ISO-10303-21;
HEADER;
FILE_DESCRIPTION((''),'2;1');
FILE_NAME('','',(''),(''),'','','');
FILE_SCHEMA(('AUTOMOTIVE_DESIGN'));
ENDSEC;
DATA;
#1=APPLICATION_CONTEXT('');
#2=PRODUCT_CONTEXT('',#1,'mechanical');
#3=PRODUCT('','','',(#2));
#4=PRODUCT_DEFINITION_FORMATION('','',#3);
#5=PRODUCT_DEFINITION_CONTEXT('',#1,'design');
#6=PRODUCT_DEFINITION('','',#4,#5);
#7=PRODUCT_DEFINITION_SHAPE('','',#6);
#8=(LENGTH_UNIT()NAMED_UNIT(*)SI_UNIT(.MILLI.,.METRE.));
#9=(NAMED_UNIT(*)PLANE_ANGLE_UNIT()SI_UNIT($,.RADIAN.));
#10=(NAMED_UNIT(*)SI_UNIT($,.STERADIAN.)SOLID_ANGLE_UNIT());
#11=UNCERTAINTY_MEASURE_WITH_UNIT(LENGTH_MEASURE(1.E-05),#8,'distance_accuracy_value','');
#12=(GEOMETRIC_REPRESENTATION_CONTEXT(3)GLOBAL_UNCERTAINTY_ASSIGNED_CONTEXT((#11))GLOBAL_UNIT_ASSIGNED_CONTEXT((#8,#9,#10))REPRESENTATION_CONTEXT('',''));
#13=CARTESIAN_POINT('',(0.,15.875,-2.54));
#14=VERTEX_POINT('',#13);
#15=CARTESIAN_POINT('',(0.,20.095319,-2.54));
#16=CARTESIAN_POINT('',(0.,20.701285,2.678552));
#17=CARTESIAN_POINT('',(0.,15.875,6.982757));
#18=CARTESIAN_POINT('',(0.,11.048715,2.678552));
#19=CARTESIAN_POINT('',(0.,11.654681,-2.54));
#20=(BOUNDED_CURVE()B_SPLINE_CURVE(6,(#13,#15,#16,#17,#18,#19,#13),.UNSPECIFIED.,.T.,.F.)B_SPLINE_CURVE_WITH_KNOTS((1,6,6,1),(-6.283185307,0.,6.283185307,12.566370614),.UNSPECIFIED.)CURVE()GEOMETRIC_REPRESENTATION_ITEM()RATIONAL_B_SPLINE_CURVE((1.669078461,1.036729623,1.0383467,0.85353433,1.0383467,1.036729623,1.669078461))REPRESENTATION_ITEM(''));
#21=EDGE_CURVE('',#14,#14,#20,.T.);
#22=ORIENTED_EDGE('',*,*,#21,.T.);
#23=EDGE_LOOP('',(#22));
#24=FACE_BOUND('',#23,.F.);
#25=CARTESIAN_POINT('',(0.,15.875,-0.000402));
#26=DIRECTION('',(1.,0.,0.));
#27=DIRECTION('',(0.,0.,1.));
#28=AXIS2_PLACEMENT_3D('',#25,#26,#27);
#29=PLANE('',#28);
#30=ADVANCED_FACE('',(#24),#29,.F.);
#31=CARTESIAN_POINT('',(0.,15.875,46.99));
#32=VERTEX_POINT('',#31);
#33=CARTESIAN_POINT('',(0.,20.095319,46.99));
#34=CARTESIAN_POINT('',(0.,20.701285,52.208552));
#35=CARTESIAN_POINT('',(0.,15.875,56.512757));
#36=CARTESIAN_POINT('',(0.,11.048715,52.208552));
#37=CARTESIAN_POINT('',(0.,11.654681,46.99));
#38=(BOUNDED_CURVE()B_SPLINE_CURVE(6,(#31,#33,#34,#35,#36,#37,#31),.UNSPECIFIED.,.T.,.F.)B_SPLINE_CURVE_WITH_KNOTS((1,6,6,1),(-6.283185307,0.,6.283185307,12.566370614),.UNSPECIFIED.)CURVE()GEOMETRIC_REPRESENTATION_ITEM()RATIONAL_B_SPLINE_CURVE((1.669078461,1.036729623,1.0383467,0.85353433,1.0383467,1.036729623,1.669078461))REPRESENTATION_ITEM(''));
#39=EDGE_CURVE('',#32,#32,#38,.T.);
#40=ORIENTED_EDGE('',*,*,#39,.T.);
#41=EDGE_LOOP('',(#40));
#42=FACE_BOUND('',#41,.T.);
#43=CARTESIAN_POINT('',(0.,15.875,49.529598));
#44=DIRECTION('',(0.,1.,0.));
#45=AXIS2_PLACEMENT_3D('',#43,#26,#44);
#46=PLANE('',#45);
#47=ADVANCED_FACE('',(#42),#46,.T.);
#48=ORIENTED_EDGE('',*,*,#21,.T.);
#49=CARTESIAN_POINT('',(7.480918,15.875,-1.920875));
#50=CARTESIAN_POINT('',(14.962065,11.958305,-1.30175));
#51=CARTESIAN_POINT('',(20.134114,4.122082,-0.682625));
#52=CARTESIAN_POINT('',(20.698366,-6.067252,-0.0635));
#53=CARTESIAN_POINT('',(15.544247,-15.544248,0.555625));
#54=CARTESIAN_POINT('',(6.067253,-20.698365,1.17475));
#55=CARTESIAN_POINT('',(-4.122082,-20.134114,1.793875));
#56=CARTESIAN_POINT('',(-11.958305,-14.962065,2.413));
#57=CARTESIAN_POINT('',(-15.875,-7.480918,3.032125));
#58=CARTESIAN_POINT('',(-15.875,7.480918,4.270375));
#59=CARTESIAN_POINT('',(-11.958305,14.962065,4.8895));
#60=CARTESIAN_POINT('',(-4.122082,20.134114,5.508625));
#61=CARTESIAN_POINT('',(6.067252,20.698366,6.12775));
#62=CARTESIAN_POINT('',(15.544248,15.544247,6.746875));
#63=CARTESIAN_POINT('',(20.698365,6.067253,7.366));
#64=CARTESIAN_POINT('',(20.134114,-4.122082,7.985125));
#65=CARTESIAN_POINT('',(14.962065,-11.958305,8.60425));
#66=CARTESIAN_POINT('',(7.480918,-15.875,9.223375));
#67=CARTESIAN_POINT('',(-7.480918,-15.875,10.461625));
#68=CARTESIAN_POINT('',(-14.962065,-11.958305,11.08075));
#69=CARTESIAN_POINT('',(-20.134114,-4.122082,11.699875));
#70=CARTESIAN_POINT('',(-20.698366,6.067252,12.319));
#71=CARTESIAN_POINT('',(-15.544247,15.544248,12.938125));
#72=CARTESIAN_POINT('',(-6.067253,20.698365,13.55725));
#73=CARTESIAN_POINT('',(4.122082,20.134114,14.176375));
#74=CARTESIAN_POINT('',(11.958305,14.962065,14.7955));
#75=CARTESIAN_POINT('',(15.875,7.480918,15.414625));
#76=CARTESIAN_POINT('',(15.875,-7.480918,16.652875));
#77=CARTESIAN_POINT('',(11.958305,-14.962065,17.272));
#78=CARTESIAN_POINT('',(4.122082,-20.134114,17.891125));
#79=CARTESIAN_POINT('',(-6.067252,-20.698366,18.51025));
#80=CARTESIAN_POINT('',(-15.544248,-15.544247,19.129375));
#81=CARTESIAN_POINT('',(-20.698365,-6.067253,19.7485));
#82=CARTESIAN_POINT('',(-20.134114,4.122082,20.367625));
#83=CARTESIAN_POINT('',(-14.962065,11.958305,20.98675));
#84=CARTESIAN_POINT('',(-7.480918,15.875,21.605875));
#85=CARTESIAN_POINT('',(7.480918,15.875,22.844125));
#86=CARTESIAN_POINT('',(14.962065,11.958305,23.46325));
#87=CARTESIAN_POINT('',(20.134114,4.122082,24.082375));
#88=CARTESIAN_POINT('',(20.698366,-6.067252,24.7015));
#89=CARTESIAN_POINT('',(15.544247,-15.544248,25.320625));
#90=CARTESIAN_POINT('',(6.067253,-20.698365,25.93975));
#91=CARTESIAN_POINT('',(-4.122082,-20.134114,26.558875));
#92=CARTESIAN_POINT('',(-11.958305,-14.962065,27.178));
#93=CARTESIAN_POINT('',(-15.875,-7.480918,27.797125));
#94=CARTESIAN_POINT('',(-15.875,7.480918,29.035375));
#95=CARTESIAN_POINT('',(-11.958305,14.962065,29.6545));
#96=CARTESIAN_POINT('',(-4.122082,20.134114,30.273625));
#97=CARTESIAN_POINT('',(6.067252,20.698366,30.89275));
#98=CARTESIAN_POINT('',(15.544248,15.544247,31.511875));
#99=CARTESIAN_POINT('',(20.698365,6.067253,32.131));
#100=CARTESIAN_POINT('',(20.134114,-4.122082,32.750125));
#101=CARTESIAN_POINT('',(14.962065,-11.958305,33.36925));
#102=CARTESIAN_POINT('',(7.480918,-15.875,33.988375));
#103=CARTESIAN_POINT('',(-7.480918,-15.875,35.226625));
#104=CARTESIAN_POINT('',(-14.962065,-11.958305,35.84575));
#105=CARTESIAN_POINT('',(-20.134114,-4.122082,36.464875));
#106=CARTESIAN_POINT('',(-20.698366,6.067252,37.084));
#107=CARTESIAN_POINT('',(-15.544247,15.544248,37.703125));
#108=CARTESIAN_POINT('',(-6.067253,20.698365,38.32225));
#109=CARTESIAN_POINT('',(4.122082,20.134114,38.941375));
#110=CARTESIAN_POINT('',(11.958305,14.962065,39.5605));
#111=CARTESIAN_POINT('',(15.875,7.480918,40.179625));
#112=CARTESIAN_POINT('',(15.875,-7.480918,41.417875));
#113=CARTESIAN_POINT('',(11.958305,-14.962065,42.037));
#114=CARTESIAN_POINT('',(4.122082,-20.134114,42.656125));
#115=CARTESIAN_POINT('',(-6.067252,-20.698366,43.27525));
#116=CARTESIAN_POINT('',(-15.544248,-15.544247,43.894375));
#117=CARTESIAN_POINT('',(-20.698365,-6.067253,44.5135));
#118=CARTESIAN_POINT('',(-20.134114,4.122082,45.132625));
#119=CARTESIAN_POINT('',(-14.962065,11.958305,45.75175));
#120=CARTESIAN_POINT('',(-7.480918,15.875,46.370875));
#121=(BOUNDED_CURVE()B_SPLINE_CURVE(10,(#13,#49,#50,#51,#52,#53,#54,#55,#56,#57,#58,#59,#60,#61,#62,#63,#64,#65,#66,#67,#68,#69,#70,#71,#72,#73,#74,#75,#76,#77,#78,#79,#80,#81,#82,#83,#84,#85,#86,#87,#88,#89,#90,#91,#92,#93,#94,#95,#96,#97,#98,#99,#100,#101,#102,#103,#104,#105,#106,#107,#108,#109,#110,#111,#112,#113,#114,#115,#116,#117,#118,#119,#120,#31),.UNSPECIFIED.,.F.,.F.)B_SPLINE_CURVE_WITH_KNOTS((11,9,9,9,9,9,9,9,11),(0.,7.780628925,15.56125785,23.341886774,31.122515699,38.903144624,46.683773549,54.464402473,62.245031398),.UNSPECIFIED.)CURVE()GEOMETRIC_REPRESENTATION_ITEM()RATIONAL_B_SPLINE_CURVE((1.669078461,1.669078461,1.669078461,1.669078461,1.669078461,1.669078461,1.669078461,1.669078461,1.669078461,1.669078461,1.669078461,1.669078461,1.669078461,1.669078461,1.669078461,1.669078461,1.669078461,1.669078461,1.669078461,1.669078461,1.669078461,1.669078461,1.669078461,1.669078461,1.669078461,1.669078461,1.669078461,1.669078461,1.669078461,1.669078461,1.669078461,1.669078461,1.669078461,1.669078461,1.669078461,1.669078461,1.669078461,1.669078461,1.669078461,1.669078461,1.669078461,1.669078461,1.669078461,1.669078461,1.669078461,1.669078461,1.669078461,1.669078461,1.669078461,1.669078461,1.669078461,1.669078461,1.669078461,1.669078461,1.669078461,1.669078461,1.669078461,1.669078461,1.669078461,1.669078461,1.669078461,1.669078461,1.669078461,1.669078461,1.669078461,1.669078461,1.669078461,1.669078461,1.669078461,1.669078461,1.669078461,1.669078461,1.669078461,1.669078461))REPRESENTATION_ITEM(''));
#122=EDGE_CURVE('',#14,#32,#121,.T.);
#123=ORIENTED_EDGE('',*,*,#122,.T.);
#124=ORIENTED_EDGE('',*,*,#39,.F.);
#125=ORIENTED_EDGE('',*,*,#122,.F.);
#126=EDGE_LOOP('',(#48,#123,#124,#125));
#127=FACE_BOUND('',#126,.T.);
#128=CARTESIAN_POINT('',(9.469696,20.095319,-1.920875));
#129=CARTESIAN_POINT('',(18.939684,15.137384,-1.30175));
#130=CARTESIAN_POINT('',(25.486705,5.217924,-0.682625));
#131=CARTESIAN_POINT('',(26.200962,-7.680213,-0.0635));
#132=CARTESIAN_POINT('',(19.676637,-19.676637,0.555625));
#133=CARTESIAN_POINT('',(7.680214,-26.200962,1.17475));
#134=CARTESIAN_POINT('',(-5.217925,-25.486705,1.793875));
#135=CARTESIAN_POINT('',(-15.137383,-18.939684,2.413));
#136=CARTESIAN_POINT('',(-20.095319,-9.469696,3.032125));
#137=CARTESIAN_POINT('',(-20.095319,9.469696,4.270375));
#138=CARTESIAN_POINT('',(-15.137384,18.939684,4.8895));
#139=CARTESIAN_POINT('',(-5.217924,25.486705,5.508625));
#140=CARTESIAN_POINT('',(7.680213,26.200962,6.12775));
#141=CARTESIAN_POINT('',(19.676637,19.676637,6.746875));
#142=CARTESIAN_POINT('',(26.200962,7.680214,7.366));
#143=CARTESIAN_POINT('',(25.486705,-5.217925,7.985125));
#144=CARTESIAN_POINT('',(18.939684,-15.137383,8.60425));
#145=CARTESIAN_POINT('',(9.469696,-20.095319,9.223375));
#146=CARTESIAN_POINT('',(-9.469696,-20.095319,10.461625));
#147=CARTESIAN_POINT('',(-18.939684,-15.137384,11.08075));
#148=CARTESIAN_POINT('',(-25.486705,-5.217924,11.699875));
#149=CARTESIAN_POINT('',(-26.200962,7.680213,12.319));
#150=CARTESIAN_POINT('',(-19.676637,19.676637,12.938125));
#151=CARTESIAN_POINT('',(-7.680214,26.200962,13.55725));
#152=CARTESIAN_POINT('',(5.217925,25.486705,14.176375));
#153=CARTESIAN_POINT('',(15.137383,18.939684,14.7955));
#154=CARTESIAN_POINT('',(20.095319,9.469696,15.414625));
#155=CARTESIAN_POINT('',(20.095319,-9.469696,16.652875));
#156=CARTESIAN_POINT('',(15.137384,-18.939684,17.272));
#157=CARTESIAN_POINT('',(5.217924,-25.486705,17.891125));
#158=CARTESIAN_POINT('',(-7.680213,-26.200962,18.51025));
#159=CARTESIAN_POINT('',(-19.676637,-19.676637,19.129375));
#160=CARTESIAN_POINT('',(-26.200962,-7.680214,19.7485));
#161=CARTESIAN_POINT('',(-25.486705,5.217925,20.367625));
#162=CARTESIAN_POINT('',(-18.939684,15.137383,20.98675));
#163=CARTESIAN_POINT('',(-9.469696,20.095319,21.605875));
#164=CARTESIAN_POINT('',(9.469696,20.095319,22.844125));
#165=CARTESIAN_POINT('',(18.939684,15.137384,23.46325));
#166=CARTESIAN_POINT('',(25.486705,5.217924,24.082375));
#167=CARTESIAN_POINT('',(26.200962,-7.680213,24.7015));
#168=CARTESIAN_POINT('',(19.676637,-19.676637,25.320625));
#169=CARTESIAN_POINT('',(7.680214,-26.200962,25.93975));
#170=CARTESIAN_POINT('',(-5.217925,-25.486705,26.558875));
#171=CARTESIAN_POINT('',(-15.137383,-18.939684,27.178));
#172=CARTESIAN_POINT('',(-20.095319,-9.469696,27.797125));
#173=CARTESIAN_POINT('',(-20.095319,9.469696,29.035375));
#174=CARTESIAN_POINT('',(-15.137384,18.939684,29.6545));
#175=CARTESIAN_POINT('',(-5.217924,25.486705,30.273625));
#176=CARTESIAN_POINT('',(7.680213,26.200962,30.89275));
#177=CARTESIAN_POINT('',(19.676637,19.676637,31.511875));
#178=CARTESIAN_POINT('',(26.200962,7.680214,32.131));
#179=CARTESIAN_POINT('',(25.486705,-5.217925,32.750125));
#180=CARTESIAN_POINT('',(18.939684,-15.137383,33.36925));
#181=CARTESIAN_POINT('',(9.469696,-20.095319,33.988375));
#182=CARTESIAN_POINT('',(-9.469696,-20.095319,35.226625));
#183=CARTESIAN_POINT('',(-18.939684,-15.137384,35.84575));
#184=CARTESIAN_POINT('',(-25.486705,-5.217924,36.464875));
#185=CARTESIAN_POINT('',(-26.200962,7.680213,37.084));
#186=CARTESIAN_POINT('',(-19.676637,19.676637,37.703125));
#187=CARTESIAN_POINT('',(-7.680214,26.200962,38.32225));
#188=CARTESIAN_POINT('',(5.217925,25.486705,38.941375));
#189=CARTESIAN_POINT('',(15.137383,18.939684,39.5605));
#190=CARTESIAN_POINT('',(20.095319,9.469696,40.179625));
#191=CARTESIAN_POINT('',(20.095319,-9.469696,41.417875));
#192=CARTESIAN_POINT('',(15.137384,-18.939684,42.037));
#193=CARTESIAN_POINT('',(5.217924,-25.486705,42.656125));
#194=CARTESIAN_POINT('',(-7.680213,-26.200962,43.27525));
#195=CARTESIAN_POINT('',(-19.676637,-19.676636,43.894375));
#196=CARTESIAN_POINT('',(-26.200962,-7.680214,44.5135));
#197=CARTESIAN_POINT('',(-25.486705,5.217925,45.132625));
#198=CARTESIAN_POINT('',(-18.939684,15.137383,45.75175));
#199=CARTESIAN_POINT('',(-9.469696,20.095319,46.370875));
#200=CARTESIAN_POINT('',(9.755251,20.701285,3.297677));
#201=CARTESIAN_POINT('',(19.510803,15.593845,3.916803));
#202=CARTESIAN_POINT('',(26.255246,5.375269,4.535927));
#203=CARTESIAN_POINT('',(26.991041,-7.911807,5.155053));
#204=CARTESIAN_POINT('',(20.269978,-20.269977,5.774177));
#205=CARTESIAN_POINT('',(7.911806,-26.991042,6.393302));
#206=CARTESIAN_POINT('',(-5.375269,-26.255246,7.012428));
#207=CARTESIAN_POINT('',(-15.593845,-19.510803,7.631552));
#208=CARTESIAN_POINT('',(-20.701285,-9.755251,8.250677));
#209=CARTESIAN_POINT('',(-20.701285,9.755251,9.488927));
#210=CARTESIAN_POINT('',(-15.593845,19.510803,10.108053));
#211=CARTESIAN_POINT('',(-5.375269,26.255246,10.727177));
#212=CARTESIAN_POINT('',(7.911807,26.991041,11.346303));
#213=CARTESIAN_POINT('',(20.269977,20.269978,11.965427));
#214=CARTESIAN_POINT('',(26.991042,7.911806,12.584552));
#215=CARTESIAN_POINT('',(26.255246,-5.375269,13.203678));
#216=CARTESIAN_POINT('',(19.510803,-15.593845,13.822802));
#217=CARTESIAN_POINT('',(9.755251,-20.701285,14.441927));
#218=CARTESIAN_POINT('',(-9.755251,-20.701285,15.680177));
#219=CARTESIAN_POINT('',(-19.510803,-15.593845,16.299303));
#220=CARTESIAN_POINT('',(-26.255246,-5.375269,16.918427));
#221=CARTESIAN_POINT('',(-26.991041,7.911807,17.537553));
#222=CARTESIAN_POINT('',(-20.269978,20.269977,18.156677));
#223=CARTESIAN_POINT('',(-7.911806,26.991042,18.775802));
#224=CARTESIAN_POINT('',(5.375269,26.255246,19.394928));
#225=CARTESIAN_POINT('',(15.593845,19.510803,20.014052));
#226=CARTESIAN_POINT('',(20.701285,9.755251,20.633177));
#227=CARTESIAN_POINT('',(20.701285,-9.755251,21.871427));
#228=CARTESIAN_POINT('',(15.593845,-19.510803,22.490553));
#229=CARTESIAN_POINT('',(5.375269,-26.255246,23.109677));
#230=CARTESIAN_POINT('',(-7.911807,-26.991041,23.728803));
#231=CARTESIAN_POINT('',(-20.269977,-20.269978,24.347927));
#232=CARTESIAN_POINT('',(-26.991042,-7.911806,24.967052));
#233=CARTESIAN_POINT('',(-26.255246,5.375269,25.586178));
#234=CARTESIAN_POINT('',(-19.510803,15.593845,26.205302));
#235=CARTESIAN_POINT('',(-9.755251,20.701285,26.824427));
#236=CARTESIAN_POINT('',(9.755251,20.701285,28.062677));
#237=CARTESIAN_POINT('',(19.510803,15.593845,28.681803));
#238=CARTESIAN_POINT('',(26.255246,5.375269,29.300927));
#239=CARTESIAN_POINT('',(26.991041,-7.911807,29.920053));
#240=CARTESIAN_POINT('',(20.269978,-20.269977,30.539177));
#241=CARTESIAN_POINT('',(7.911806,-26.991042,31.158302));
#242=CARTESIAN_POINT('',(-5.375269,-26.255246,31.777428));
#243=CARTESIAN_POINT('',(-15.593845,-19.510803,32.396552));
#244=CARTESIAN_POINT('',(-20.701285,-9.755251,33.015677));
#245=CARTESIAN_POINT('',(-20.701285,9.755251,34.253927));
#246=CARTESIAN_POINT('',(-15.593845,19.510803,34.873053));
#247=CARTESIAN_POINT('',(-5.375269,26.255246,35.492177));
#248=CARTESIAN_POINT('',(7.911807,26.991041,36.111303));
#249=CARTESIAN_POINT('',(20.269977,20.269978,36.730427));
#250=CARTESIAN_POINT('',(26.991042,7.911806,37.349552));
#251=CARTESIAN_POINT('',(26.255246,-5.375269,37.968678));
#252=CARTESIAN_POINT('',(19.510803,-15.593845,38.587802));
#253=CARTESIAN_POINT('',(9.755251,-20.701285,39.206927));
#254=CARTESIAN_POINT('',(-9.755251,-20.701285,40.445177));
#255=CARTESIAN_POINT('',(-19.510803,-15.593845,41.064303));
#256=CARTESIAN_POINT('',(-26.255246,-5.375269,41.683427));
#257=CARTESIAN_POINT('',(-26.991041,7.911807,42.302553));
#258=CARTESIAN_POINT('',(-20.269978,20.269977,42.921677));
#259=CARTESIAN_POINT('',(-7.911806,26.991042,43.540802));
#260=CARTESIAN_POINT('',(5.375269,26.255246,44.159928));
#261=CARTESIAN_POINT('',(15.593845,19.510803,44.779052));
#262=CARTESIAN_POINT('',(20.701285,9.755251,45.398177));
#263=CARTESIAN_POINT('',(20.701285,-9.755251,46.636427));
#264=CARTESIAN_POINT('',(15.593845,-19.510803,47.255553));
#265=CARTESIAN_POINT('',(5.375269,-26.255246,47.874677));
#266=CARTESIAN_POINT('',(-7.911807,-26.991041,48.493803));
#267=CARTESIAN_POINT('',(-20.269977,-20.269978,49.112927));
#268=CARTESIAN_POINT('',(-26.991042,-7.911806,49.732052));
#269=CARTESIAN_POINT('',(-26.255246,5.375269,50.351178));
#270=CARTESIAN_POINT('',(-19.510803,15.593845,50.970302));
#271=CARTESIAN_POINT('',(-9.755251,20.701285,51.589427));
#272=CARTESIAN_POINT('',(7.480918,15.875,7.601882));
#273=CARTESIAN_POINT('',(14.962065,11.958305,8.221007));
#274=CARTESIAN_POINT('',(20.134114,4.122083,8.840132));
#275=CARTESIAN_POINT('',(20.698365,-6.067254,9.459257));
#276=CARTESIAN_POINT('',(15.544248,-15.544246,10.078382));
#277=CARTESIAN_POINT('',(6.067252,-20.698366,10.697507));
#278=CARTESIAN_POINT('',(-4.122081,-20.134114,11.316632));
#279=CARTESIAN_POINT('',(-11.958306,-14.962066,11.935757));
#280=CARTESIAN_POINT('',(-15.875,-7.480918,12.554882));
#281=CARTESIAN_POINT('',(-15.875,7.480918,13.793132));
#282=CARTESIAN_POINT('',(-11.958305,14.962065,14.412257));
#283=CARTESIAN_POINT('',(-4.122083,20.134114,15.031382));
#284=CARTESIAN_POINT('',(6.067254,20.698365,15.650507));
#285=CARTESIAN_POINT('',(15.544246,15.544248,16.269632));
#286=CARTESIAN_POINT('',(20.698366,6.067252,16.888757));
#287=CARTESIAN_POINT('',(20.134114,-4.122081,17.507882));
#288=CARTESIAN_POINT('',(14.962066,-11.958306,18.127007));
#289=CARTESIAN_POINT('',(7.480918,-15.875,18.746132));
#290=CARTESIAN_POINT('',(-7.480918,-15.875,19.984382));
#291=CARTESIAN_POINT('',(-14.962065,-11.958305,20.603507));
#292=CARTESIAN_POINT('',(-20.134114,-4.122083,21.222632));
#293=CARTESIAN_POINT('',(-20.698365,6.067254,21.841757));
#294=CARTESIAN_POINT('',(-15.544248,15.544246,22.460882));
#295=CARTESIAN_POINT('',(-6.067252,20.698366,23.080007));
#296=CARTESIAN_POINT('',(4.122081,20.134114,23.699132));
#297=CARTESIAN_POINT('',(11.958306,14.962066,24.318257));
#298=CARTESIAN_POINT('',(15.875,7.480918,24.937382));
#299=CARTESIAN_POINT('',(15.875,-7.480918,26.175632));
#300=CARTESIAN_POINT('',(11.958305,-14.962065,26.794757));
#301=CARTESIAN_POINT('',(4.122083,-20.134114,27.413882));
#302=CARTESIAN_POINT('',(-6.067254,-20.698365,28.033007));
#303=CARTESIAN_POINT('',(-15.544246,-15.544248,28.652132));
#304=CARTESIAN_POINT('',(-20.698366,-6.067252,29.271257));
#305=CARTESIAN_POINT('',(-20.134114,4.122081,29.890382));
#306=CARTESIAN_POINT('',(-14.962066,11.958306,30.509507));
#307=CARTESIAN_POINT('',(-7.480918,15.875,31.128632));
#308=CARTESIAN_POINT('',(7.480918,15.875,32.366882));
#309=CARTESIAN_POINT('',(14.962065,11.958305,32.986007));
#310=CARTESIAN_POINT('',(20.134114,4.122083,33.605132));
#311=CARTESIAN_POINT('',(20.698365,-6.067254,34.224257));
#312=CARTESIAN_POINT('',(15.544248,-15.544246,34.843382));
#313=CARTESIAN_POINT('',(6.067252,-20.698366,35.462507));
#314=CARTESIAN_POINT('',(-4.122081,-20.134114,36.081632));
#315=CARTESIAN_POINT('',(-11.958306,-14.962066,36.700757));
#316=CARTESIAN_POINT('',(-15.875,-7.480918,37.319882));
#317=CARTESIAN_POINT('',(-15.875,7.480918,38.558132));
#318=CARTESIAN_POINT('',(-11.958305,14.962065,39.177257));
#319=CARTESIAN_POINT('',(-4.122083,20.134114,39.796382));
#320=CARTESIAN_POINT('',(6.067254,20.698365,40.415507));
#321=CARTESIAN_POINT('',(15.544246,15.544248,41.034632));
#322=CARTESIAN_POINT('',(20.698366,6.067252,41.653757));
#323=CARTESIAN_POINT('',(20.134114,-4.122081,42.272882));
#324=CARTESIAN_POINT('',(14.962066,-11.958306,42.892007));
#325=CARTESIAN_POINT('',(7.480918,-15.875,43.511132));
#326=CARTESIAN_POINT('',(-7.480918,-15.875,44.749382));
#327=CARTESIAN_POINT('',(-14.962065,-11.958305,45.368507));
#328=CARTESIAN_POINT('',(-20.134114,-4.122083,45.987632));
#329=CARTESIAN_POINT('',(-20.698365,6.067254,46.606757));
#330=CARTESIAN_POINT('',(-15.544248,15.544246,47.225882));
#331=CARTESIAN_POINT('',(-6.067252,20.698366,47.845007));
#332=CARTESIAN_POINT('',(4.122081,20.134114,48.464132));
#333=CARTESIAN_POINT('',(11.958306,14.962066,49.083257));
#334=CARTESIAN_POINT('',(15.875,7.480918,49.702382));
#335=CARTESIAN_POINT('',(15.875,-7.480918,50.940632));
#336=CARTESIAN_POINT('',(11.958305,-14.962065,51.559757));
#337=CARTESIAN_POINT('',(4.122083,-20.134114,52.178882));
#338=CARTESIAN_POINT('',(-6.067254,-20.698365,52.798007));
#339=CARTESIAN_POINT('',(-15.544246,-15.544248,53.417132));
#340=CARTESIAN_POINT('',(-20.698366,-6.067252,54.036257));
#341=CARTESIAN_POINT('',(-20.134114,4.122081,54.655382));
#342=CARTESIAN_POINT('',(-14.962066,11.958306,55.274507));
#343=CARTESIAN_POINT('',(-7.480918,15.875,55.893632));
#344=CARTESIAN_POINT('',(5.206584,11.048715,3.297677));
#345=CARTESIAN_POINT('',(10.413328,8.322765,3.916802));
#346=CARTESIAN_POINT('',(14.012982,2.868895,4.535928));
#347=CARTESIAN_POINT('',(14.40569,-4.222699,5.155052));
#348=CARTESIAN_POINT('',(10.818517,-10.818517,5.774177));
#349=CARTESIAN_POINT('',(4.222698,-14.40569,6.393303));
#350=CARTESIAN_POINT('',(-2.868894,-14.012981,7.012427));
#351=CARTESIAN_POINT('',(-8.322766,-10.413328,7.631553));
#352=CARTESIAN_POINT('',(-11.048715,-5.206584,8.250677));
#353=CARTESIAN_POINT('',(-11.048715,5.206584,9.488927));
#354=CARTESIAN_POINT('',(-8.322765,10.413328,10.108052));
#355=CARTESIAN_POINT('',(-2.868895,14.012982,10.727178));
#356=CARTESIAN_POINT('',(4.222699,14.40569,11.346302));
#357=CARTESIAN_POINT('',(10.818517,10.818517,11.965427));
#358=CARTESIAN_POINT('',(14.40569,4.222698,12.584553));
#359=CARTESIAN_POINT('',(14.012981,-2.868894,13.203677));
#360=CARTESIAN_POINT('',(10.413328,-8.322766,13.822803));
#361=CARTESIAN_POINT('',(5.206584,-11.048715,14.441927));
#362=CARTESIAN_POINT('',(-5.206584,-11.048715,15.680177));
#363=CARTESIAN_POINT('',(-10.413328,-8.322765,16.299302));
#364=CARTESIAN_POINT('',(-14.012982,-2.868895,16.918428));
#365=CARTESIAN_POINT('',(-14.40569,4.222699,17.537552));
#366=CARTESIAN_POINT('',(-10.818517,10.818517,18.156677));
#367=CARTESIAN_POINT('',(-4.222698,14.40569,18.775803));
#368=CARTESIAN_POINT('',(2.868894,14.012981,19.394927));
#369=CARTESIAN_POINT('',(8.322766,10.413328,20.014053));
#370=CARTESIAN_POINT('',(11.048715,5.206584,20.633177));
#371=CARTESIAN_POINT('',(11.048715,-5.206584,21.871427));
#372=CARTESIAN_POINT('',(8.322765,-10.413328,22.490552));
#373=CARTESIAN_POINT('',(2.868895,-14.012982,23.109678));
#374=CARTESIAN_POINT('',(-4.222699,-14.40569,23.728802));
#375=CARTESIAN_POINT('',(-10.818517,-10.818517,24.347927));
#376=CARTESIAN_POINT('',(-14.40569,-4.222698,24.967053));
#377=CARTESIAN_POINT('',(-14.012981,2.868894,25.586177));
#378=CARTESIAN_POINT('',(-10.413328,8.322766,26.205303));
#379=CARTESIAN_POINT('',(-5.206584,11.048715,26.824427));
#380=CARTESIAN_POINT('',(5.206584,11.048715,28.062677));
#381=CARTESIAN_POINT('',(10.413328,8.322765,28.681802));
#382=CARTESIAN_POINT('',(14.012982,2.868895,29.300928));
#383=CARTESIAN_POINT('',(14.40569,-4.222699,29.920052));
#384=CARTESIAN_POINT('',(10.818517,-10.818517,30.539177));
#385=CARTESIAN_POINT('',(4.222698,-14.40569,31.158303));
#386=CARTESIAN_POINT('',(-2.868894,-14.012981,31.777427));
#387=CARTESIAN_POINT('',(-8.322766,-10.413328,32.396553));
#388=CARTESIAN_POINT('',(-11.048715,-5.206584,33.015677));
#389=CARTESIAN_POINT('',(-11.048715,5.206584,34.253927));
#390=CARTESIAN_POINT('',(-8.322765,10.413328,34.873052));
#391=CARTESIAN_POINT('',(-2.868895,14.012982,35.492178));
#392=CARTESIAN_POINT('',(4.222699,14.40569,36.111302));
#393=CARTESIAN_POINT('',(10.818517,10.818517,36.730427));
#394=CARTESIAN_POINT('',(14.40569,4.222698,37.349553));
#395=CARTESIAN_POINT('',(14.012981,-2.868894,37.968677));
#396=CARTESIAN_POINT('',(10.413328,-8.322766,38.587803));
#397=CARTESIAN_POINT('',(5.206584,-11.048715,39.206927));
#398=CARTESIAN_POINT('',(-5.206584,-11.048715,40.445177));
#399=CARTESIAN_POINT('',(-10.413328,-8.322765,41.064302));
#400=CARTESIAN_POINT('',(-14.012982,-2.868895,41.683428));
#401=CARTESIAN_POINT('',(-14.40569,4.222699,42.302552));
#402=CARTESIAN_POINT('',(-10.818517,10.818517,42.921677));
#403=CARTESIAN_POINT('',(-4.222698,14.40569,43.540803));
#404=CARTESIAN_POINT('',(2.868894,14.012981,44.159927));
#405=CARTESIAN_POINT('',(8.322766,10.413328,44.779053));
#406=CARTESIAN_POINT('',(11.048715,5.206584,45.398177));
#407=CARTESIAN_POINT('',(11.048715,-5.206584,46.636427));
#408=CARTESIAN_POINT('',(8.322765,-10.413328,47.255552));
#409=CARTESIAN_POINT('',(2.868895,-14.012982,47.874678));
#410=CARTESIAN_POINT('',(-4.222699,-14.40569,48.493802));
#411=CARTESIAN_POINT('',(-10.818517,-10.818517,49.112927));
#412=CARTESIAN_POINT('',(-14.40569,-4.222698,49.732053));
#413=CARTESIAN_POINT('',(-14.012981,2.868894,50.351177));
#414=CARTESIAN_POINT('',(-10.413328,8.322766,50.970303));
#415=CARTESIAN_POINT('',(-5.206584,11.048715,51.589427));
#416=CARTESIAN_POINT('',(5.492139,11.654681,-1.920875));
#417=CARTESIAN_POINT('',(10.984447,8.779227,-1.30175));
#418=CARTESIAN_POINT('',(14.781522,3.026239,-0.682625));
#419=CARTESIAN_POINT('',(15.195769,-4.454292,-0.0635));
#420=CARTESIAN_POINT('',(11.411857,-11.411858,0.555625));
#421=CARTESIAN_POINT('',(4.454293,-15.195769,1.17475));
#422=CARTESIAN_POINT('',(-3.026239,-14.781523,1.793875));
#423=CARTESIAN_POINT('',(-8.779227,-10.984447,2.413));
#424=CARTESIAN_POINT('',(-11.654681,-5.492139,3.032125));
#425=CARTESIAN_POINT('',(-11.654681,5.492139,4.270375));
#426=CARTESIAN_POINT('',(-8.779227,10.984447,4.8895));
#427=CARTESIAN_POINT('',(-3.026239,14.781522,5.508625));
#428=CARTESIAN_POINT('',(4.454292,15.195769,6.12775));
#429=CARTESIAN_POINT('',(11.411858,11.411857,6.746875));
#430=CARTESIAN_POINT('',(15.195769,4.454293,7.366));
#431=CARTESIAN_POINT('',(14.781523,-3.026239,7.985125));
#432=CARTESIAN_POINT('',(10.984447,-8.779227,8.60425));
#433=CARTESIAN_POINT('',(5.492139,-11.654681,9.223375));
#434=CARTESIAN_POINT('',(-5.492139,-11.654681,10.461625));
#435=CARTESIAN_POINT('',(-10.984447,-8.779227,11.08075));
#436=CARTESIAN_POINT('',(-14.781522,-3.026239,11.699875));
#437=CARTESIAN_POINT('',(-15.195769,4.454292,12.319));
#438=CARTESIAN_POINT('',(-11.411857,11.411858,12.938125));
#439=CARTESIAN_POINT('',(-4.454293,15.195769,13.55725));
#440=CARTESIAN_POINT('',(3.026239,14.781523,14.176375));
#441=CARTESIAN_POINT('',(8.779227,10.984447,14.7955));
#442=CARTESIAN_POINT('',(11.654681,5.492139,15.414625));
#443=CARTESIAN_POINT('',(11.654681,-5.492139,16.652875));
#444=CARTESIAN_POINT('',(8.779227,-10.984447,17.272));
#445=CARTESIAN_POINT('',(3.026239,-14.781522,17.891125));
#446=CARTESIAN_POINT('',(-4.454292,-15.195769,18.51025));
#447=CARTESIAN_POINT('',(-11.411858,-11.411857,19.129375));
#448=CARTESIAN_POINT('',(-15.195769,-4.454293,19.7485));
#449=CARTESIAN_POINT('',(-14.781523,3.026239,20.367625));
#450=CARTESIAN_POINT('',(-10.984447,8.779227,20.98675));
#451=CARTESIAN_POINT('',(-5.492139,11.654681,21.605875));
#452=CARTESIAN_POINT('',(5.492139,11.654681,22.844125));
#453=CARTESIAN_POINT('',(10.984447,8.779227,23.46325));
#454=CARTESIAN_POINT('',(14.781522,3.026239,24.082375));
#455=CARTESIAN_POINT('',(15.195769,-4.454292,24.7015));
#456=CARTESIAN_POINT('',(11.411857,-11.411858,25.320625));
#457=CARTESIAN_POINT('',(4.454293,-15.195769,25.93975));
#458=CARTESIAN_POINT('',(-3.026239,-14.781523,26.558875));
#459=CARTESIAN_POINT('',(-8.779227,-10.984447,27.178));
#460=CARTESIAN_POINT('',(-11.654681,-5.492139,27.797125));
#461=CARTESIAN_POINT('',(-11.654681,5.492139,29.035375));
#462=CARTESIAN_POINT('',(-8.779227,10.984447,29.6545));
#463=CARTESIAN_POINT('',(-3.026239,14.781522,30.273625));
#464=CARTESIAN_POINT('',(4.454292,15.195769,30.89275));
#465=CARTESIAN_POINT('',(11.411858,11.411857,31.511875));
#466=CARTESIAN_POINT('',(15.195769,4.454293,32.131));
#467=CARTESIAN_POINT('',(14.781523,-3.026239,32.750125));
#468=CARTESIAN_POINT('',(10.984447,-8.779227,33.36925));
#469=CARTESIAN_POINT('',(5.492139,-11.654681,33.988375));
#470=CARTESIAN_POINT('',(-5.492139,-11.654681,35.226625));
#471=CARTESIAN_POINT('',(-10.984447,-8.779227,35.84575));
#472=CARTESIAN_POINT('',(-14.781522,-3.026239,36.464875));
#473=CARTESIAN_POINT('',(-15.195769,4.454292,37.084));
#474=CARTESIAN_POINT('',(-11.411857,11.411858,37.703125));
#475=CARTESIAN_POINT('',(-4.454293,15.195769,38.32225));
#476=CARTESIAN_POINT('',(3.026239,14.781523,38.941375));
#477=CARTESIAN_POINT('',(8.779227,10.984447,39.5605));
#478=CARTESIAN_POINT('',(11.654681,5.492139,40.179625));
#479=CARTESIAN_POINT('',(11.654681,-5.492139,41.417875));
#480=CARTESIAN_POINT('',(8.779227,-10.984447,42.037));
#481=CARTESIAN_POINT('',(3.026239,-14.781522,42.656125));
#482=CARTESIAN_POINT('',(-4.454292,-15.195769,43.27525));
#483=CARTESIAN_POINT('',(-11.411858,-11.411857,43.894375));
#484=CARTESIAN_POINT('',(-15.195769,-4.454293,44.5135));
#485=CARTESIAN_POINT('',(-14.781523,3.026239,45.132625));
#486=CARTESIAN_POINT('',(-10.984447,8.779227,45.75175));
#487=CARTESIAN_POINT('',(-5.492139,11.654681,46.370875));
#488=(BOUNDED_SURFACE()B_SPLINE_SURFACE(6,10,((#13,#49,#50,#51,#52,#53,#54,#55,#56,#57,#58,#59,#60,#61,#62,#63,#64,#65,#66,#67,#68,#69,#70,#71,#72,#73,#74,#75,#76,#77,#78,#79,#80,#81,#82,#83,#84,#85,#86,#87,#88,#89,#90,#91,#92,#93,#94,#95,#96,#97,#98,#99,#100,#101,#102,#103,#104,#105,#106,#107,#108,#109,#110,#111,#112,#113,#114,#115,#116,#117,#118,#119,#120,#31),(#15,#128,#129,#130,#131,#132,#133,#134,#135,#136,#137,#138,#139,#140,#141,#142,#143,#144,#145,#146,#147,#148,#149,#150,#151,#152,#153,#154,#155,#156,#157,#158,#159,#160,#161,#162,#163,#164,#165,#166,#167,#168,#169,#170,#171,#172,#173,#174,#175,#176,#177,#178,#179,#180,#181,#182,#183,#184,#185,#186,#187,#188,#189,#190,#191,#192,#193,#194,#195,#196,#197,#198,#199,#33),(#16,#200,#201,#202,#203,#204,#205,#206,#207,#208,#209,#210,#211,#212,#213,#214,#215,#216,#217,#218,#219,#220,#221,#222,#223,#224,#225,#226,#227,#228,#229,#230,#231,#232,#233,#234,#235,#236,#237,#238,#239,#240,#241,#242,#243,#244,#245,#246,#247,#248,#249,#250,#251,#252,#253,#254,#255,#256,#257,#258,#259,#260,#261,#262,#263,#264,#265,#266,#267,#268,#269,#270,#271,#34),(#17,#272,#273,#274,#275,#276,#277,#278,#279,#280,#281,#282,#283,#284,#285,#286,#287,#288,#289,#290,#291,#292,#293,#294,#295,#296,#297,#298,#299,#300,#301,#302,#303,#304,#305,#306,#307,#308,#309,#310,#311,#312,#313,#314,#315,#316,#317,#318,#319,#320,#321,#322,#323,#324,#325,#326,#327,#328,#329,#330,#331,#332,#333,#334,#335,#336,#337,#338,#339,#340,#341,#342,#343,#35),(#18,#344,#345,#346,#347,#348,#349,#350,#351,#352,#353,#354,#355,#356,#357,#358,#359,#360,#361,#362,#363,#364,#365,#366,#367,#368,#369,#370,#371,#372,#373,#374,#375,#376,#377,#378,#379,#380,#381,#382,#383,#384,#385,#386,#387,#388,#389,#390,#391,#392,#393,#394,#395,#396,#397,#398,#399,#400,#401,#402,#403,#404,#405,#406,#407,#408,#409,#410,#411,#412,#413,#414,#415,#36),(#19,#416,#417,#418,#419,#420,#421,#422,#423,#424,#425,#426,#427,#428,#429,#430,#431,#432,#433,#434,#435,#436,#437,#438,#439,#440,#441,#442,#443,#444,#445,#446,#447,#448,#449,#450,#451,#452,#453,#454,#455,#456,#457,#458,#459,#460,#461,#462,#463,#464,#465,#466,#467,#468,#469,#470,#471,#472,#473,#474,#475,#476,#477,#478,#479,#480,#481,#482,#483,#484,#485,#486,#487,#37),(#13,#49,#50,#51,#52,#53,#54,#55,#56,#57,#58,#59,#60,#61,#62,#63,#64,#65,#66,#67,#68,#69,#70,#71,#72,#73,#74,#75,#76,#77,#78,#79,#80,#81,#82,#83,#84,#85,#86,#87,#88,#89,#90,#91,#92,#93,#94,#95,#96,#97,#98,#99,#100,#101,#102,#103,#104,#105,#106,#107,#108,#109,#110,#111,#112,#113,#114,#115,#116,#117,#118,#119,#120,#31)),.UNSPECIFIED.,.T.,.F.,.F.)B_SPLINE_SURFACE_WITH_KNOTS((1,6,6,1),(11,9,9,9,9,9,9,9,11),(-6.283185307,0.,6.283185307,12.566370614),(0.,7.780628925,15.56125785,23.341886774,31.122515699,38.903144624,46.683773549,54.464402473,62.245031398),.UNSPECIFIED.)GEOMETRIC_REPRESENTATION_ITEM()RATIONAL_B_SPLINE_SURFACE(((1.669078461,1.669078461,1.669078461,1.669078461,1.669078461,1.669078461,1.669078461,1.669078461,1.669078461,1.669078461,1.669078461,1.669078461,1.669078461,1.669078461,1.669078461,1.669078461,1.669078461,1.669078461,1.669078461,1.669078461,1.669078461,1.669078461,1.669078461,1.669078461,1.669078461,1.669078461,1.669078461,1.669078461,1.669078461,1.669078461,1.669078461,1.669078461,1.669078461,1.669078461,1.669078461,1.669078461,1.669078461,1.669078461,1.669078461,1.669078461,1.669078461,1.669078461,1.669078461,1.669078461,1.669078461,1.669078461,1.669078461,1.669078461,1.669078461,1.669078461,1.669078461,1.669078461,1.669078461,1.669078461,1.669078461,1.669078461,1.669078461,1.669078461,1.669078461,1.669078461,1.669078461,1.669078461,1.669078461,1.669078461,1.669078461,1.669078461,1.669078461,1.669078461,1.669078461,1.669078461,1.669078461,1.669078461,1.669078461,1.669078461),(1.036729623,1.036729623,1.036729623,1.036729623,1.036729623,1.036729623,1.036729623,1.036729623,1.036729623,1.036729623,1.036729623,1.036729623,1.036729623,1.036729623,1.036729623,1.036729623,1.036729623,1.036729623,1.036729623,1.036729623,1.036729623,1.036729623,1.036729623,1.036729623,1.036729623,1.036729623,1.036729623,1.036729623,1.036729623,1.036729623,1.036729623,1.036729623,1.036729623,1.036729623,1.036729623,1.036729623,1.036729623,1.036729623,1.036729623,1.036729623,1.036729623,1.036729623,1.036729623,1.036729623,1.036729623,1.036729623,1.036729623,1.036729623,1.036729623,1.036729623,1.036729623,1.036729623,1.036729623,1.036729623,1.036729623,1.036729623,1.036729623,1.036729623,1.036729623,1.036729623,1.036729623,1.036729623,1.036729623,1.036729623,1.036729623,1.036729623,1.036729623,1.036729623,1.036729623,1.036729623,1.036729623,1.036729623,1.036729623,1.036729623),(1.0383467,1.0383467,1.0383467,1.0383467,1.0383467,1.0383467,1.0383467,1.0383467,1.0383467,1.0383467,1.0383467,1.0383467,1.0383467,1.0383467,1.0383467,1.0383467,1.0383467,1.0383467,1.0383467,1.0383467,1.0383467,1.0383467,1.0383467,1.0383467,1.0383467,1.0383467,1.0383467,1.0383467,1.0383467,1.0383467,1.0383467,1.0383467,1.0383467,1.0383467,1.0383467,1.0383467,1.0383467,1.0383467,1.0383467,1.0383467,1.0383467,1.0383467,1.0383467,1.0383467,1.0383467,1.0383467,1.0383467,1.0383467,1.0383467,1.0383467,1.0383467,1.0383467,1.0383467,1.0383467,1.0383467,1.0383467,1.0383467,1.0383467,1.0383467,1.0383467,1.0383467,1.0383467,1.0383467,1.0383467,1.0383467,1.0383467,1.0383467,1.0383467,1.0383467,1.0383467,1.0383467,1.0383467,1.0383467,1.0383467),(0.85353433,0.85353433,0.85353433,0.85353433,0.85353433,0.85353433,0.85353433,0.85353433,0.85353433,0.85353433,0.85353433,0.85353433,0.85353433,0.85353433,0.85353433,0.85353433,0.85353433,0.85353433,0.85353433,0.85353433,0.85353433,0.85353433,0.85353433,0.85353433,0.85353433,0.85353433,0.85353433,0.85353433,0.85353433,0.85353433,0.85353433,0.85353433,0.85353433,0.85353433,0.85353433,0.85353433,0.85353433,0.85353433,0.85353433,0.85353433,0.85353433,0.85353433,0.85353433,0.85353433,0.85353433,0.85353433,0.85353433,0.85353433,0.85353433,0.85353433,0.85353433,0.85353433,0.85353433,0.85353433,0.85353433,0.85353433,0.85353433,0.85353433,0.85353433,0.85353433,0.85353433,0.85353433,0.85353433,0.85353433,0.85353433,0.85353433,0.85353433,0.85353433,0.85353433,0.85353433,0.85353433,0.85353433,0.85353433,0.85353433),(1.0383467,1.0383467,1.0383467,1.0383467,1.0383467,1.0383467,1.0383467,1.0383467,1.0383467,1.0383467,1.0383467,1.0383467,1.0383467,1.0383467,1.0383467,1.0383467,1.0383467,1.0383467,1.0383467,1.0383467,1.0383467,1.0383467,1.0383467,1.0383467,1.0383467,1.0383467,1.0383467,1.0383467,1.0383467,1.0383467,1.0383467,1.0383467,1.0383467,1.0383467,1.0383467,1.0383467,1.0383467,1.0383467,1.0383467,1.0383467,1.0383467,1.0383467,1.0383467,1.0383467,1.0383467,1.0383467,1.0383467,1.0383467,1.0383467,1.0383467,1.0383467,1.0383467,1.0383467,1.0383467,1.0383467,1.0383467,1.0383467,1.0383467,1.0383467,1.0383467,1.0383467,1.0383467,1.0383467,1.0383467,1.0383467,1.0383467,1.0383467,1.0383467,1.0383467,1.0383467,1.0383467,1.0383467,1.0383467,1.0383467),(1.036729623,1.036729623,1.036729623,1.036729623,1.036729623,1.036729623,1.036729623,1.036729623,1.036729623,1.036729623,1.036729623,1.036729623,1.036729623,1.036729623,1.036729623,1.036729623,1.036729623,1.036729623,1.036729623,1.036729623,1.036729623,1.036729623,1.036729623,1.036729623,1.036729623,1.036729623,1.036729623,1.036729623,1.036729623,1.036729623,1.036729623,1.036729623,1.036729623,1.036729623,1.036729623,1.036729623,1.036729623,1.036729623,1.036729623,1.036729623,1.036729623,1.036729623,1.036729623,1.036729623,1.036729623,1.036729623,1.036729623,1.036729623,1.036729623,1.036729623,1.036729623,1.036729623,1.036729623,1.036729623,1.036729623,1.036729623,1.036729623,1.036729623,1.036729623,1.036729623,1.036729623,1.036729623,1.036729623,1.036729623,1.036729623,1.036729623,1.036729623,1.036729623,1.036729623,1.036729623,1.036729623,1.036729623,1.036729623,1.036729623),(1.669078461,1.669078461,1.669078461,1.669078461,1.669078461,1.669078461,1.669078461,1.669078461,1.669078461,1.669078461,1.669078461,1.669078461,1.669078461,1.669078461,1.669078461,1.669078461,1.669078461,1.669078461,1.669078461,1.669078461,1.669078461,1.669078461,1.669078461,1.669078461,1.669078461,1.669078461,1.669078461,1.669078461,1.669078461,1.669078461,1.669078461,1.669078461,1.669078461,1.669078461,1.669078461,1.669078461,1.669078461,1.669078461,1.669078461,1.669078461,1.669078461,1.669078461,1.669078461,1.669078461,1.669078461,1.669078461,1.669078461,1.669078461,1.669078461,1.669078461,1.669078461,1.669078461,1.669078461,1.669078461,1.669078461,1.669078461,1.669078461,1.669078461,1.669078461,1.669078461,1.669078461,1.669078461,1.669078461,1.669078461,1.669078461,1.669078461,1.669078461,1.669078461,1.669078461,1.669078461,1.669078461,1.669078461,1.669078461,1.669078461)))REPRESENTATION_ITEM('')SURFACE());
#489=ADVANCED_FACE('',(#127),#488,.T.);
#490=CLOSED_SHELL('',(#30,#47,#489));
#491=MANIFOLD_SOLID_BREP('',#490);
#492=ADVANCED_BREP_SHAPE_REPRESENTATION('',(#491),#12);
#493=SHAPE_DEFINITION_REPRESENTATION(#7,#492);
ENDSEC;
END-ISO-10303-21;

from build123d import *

# Parameters (mm, degrees)
COIL_SWEEP_PITCH       = 8.255
COIL_SWEEP_HEIGHT      = 49.53
COIL_SWEEP_RADIUS      = 15.875
COIL_SWEEP_START_ANGLE = 90
COIL_SKETCH_R          = 2.54


with BuildPart() as part:
    # Coil Sweep: sweep along a helix
    with BuildLine() as coil_sweep_path:
        add(Helix(COIL_SWEEP_PITCH, COIL_SWEEP_HEIGHT, COIL_SWEEP_RADIUS, center=(0, 0, 0), direction=(0, 0, 1), lefthand=True, mode=Mode.PRIVATE).rotate(Axis((0, 0, 0), (0, 0, 1)), COIL_SWEEP_START_ANGLE))
    # Coil Sketch → Coil Sweep (sweep)
    with BuildSketch(Plane(origin=(0, 0, 0), x_dir=(0, 0, -1), z_dir=(1, 0, 0))):
        with Locations((0, 15.875)):
            Circle(COIL_SKETCH_R)
    sweep(path=coil_sweep_path.line, is_frenet=True)


solid = part.part
